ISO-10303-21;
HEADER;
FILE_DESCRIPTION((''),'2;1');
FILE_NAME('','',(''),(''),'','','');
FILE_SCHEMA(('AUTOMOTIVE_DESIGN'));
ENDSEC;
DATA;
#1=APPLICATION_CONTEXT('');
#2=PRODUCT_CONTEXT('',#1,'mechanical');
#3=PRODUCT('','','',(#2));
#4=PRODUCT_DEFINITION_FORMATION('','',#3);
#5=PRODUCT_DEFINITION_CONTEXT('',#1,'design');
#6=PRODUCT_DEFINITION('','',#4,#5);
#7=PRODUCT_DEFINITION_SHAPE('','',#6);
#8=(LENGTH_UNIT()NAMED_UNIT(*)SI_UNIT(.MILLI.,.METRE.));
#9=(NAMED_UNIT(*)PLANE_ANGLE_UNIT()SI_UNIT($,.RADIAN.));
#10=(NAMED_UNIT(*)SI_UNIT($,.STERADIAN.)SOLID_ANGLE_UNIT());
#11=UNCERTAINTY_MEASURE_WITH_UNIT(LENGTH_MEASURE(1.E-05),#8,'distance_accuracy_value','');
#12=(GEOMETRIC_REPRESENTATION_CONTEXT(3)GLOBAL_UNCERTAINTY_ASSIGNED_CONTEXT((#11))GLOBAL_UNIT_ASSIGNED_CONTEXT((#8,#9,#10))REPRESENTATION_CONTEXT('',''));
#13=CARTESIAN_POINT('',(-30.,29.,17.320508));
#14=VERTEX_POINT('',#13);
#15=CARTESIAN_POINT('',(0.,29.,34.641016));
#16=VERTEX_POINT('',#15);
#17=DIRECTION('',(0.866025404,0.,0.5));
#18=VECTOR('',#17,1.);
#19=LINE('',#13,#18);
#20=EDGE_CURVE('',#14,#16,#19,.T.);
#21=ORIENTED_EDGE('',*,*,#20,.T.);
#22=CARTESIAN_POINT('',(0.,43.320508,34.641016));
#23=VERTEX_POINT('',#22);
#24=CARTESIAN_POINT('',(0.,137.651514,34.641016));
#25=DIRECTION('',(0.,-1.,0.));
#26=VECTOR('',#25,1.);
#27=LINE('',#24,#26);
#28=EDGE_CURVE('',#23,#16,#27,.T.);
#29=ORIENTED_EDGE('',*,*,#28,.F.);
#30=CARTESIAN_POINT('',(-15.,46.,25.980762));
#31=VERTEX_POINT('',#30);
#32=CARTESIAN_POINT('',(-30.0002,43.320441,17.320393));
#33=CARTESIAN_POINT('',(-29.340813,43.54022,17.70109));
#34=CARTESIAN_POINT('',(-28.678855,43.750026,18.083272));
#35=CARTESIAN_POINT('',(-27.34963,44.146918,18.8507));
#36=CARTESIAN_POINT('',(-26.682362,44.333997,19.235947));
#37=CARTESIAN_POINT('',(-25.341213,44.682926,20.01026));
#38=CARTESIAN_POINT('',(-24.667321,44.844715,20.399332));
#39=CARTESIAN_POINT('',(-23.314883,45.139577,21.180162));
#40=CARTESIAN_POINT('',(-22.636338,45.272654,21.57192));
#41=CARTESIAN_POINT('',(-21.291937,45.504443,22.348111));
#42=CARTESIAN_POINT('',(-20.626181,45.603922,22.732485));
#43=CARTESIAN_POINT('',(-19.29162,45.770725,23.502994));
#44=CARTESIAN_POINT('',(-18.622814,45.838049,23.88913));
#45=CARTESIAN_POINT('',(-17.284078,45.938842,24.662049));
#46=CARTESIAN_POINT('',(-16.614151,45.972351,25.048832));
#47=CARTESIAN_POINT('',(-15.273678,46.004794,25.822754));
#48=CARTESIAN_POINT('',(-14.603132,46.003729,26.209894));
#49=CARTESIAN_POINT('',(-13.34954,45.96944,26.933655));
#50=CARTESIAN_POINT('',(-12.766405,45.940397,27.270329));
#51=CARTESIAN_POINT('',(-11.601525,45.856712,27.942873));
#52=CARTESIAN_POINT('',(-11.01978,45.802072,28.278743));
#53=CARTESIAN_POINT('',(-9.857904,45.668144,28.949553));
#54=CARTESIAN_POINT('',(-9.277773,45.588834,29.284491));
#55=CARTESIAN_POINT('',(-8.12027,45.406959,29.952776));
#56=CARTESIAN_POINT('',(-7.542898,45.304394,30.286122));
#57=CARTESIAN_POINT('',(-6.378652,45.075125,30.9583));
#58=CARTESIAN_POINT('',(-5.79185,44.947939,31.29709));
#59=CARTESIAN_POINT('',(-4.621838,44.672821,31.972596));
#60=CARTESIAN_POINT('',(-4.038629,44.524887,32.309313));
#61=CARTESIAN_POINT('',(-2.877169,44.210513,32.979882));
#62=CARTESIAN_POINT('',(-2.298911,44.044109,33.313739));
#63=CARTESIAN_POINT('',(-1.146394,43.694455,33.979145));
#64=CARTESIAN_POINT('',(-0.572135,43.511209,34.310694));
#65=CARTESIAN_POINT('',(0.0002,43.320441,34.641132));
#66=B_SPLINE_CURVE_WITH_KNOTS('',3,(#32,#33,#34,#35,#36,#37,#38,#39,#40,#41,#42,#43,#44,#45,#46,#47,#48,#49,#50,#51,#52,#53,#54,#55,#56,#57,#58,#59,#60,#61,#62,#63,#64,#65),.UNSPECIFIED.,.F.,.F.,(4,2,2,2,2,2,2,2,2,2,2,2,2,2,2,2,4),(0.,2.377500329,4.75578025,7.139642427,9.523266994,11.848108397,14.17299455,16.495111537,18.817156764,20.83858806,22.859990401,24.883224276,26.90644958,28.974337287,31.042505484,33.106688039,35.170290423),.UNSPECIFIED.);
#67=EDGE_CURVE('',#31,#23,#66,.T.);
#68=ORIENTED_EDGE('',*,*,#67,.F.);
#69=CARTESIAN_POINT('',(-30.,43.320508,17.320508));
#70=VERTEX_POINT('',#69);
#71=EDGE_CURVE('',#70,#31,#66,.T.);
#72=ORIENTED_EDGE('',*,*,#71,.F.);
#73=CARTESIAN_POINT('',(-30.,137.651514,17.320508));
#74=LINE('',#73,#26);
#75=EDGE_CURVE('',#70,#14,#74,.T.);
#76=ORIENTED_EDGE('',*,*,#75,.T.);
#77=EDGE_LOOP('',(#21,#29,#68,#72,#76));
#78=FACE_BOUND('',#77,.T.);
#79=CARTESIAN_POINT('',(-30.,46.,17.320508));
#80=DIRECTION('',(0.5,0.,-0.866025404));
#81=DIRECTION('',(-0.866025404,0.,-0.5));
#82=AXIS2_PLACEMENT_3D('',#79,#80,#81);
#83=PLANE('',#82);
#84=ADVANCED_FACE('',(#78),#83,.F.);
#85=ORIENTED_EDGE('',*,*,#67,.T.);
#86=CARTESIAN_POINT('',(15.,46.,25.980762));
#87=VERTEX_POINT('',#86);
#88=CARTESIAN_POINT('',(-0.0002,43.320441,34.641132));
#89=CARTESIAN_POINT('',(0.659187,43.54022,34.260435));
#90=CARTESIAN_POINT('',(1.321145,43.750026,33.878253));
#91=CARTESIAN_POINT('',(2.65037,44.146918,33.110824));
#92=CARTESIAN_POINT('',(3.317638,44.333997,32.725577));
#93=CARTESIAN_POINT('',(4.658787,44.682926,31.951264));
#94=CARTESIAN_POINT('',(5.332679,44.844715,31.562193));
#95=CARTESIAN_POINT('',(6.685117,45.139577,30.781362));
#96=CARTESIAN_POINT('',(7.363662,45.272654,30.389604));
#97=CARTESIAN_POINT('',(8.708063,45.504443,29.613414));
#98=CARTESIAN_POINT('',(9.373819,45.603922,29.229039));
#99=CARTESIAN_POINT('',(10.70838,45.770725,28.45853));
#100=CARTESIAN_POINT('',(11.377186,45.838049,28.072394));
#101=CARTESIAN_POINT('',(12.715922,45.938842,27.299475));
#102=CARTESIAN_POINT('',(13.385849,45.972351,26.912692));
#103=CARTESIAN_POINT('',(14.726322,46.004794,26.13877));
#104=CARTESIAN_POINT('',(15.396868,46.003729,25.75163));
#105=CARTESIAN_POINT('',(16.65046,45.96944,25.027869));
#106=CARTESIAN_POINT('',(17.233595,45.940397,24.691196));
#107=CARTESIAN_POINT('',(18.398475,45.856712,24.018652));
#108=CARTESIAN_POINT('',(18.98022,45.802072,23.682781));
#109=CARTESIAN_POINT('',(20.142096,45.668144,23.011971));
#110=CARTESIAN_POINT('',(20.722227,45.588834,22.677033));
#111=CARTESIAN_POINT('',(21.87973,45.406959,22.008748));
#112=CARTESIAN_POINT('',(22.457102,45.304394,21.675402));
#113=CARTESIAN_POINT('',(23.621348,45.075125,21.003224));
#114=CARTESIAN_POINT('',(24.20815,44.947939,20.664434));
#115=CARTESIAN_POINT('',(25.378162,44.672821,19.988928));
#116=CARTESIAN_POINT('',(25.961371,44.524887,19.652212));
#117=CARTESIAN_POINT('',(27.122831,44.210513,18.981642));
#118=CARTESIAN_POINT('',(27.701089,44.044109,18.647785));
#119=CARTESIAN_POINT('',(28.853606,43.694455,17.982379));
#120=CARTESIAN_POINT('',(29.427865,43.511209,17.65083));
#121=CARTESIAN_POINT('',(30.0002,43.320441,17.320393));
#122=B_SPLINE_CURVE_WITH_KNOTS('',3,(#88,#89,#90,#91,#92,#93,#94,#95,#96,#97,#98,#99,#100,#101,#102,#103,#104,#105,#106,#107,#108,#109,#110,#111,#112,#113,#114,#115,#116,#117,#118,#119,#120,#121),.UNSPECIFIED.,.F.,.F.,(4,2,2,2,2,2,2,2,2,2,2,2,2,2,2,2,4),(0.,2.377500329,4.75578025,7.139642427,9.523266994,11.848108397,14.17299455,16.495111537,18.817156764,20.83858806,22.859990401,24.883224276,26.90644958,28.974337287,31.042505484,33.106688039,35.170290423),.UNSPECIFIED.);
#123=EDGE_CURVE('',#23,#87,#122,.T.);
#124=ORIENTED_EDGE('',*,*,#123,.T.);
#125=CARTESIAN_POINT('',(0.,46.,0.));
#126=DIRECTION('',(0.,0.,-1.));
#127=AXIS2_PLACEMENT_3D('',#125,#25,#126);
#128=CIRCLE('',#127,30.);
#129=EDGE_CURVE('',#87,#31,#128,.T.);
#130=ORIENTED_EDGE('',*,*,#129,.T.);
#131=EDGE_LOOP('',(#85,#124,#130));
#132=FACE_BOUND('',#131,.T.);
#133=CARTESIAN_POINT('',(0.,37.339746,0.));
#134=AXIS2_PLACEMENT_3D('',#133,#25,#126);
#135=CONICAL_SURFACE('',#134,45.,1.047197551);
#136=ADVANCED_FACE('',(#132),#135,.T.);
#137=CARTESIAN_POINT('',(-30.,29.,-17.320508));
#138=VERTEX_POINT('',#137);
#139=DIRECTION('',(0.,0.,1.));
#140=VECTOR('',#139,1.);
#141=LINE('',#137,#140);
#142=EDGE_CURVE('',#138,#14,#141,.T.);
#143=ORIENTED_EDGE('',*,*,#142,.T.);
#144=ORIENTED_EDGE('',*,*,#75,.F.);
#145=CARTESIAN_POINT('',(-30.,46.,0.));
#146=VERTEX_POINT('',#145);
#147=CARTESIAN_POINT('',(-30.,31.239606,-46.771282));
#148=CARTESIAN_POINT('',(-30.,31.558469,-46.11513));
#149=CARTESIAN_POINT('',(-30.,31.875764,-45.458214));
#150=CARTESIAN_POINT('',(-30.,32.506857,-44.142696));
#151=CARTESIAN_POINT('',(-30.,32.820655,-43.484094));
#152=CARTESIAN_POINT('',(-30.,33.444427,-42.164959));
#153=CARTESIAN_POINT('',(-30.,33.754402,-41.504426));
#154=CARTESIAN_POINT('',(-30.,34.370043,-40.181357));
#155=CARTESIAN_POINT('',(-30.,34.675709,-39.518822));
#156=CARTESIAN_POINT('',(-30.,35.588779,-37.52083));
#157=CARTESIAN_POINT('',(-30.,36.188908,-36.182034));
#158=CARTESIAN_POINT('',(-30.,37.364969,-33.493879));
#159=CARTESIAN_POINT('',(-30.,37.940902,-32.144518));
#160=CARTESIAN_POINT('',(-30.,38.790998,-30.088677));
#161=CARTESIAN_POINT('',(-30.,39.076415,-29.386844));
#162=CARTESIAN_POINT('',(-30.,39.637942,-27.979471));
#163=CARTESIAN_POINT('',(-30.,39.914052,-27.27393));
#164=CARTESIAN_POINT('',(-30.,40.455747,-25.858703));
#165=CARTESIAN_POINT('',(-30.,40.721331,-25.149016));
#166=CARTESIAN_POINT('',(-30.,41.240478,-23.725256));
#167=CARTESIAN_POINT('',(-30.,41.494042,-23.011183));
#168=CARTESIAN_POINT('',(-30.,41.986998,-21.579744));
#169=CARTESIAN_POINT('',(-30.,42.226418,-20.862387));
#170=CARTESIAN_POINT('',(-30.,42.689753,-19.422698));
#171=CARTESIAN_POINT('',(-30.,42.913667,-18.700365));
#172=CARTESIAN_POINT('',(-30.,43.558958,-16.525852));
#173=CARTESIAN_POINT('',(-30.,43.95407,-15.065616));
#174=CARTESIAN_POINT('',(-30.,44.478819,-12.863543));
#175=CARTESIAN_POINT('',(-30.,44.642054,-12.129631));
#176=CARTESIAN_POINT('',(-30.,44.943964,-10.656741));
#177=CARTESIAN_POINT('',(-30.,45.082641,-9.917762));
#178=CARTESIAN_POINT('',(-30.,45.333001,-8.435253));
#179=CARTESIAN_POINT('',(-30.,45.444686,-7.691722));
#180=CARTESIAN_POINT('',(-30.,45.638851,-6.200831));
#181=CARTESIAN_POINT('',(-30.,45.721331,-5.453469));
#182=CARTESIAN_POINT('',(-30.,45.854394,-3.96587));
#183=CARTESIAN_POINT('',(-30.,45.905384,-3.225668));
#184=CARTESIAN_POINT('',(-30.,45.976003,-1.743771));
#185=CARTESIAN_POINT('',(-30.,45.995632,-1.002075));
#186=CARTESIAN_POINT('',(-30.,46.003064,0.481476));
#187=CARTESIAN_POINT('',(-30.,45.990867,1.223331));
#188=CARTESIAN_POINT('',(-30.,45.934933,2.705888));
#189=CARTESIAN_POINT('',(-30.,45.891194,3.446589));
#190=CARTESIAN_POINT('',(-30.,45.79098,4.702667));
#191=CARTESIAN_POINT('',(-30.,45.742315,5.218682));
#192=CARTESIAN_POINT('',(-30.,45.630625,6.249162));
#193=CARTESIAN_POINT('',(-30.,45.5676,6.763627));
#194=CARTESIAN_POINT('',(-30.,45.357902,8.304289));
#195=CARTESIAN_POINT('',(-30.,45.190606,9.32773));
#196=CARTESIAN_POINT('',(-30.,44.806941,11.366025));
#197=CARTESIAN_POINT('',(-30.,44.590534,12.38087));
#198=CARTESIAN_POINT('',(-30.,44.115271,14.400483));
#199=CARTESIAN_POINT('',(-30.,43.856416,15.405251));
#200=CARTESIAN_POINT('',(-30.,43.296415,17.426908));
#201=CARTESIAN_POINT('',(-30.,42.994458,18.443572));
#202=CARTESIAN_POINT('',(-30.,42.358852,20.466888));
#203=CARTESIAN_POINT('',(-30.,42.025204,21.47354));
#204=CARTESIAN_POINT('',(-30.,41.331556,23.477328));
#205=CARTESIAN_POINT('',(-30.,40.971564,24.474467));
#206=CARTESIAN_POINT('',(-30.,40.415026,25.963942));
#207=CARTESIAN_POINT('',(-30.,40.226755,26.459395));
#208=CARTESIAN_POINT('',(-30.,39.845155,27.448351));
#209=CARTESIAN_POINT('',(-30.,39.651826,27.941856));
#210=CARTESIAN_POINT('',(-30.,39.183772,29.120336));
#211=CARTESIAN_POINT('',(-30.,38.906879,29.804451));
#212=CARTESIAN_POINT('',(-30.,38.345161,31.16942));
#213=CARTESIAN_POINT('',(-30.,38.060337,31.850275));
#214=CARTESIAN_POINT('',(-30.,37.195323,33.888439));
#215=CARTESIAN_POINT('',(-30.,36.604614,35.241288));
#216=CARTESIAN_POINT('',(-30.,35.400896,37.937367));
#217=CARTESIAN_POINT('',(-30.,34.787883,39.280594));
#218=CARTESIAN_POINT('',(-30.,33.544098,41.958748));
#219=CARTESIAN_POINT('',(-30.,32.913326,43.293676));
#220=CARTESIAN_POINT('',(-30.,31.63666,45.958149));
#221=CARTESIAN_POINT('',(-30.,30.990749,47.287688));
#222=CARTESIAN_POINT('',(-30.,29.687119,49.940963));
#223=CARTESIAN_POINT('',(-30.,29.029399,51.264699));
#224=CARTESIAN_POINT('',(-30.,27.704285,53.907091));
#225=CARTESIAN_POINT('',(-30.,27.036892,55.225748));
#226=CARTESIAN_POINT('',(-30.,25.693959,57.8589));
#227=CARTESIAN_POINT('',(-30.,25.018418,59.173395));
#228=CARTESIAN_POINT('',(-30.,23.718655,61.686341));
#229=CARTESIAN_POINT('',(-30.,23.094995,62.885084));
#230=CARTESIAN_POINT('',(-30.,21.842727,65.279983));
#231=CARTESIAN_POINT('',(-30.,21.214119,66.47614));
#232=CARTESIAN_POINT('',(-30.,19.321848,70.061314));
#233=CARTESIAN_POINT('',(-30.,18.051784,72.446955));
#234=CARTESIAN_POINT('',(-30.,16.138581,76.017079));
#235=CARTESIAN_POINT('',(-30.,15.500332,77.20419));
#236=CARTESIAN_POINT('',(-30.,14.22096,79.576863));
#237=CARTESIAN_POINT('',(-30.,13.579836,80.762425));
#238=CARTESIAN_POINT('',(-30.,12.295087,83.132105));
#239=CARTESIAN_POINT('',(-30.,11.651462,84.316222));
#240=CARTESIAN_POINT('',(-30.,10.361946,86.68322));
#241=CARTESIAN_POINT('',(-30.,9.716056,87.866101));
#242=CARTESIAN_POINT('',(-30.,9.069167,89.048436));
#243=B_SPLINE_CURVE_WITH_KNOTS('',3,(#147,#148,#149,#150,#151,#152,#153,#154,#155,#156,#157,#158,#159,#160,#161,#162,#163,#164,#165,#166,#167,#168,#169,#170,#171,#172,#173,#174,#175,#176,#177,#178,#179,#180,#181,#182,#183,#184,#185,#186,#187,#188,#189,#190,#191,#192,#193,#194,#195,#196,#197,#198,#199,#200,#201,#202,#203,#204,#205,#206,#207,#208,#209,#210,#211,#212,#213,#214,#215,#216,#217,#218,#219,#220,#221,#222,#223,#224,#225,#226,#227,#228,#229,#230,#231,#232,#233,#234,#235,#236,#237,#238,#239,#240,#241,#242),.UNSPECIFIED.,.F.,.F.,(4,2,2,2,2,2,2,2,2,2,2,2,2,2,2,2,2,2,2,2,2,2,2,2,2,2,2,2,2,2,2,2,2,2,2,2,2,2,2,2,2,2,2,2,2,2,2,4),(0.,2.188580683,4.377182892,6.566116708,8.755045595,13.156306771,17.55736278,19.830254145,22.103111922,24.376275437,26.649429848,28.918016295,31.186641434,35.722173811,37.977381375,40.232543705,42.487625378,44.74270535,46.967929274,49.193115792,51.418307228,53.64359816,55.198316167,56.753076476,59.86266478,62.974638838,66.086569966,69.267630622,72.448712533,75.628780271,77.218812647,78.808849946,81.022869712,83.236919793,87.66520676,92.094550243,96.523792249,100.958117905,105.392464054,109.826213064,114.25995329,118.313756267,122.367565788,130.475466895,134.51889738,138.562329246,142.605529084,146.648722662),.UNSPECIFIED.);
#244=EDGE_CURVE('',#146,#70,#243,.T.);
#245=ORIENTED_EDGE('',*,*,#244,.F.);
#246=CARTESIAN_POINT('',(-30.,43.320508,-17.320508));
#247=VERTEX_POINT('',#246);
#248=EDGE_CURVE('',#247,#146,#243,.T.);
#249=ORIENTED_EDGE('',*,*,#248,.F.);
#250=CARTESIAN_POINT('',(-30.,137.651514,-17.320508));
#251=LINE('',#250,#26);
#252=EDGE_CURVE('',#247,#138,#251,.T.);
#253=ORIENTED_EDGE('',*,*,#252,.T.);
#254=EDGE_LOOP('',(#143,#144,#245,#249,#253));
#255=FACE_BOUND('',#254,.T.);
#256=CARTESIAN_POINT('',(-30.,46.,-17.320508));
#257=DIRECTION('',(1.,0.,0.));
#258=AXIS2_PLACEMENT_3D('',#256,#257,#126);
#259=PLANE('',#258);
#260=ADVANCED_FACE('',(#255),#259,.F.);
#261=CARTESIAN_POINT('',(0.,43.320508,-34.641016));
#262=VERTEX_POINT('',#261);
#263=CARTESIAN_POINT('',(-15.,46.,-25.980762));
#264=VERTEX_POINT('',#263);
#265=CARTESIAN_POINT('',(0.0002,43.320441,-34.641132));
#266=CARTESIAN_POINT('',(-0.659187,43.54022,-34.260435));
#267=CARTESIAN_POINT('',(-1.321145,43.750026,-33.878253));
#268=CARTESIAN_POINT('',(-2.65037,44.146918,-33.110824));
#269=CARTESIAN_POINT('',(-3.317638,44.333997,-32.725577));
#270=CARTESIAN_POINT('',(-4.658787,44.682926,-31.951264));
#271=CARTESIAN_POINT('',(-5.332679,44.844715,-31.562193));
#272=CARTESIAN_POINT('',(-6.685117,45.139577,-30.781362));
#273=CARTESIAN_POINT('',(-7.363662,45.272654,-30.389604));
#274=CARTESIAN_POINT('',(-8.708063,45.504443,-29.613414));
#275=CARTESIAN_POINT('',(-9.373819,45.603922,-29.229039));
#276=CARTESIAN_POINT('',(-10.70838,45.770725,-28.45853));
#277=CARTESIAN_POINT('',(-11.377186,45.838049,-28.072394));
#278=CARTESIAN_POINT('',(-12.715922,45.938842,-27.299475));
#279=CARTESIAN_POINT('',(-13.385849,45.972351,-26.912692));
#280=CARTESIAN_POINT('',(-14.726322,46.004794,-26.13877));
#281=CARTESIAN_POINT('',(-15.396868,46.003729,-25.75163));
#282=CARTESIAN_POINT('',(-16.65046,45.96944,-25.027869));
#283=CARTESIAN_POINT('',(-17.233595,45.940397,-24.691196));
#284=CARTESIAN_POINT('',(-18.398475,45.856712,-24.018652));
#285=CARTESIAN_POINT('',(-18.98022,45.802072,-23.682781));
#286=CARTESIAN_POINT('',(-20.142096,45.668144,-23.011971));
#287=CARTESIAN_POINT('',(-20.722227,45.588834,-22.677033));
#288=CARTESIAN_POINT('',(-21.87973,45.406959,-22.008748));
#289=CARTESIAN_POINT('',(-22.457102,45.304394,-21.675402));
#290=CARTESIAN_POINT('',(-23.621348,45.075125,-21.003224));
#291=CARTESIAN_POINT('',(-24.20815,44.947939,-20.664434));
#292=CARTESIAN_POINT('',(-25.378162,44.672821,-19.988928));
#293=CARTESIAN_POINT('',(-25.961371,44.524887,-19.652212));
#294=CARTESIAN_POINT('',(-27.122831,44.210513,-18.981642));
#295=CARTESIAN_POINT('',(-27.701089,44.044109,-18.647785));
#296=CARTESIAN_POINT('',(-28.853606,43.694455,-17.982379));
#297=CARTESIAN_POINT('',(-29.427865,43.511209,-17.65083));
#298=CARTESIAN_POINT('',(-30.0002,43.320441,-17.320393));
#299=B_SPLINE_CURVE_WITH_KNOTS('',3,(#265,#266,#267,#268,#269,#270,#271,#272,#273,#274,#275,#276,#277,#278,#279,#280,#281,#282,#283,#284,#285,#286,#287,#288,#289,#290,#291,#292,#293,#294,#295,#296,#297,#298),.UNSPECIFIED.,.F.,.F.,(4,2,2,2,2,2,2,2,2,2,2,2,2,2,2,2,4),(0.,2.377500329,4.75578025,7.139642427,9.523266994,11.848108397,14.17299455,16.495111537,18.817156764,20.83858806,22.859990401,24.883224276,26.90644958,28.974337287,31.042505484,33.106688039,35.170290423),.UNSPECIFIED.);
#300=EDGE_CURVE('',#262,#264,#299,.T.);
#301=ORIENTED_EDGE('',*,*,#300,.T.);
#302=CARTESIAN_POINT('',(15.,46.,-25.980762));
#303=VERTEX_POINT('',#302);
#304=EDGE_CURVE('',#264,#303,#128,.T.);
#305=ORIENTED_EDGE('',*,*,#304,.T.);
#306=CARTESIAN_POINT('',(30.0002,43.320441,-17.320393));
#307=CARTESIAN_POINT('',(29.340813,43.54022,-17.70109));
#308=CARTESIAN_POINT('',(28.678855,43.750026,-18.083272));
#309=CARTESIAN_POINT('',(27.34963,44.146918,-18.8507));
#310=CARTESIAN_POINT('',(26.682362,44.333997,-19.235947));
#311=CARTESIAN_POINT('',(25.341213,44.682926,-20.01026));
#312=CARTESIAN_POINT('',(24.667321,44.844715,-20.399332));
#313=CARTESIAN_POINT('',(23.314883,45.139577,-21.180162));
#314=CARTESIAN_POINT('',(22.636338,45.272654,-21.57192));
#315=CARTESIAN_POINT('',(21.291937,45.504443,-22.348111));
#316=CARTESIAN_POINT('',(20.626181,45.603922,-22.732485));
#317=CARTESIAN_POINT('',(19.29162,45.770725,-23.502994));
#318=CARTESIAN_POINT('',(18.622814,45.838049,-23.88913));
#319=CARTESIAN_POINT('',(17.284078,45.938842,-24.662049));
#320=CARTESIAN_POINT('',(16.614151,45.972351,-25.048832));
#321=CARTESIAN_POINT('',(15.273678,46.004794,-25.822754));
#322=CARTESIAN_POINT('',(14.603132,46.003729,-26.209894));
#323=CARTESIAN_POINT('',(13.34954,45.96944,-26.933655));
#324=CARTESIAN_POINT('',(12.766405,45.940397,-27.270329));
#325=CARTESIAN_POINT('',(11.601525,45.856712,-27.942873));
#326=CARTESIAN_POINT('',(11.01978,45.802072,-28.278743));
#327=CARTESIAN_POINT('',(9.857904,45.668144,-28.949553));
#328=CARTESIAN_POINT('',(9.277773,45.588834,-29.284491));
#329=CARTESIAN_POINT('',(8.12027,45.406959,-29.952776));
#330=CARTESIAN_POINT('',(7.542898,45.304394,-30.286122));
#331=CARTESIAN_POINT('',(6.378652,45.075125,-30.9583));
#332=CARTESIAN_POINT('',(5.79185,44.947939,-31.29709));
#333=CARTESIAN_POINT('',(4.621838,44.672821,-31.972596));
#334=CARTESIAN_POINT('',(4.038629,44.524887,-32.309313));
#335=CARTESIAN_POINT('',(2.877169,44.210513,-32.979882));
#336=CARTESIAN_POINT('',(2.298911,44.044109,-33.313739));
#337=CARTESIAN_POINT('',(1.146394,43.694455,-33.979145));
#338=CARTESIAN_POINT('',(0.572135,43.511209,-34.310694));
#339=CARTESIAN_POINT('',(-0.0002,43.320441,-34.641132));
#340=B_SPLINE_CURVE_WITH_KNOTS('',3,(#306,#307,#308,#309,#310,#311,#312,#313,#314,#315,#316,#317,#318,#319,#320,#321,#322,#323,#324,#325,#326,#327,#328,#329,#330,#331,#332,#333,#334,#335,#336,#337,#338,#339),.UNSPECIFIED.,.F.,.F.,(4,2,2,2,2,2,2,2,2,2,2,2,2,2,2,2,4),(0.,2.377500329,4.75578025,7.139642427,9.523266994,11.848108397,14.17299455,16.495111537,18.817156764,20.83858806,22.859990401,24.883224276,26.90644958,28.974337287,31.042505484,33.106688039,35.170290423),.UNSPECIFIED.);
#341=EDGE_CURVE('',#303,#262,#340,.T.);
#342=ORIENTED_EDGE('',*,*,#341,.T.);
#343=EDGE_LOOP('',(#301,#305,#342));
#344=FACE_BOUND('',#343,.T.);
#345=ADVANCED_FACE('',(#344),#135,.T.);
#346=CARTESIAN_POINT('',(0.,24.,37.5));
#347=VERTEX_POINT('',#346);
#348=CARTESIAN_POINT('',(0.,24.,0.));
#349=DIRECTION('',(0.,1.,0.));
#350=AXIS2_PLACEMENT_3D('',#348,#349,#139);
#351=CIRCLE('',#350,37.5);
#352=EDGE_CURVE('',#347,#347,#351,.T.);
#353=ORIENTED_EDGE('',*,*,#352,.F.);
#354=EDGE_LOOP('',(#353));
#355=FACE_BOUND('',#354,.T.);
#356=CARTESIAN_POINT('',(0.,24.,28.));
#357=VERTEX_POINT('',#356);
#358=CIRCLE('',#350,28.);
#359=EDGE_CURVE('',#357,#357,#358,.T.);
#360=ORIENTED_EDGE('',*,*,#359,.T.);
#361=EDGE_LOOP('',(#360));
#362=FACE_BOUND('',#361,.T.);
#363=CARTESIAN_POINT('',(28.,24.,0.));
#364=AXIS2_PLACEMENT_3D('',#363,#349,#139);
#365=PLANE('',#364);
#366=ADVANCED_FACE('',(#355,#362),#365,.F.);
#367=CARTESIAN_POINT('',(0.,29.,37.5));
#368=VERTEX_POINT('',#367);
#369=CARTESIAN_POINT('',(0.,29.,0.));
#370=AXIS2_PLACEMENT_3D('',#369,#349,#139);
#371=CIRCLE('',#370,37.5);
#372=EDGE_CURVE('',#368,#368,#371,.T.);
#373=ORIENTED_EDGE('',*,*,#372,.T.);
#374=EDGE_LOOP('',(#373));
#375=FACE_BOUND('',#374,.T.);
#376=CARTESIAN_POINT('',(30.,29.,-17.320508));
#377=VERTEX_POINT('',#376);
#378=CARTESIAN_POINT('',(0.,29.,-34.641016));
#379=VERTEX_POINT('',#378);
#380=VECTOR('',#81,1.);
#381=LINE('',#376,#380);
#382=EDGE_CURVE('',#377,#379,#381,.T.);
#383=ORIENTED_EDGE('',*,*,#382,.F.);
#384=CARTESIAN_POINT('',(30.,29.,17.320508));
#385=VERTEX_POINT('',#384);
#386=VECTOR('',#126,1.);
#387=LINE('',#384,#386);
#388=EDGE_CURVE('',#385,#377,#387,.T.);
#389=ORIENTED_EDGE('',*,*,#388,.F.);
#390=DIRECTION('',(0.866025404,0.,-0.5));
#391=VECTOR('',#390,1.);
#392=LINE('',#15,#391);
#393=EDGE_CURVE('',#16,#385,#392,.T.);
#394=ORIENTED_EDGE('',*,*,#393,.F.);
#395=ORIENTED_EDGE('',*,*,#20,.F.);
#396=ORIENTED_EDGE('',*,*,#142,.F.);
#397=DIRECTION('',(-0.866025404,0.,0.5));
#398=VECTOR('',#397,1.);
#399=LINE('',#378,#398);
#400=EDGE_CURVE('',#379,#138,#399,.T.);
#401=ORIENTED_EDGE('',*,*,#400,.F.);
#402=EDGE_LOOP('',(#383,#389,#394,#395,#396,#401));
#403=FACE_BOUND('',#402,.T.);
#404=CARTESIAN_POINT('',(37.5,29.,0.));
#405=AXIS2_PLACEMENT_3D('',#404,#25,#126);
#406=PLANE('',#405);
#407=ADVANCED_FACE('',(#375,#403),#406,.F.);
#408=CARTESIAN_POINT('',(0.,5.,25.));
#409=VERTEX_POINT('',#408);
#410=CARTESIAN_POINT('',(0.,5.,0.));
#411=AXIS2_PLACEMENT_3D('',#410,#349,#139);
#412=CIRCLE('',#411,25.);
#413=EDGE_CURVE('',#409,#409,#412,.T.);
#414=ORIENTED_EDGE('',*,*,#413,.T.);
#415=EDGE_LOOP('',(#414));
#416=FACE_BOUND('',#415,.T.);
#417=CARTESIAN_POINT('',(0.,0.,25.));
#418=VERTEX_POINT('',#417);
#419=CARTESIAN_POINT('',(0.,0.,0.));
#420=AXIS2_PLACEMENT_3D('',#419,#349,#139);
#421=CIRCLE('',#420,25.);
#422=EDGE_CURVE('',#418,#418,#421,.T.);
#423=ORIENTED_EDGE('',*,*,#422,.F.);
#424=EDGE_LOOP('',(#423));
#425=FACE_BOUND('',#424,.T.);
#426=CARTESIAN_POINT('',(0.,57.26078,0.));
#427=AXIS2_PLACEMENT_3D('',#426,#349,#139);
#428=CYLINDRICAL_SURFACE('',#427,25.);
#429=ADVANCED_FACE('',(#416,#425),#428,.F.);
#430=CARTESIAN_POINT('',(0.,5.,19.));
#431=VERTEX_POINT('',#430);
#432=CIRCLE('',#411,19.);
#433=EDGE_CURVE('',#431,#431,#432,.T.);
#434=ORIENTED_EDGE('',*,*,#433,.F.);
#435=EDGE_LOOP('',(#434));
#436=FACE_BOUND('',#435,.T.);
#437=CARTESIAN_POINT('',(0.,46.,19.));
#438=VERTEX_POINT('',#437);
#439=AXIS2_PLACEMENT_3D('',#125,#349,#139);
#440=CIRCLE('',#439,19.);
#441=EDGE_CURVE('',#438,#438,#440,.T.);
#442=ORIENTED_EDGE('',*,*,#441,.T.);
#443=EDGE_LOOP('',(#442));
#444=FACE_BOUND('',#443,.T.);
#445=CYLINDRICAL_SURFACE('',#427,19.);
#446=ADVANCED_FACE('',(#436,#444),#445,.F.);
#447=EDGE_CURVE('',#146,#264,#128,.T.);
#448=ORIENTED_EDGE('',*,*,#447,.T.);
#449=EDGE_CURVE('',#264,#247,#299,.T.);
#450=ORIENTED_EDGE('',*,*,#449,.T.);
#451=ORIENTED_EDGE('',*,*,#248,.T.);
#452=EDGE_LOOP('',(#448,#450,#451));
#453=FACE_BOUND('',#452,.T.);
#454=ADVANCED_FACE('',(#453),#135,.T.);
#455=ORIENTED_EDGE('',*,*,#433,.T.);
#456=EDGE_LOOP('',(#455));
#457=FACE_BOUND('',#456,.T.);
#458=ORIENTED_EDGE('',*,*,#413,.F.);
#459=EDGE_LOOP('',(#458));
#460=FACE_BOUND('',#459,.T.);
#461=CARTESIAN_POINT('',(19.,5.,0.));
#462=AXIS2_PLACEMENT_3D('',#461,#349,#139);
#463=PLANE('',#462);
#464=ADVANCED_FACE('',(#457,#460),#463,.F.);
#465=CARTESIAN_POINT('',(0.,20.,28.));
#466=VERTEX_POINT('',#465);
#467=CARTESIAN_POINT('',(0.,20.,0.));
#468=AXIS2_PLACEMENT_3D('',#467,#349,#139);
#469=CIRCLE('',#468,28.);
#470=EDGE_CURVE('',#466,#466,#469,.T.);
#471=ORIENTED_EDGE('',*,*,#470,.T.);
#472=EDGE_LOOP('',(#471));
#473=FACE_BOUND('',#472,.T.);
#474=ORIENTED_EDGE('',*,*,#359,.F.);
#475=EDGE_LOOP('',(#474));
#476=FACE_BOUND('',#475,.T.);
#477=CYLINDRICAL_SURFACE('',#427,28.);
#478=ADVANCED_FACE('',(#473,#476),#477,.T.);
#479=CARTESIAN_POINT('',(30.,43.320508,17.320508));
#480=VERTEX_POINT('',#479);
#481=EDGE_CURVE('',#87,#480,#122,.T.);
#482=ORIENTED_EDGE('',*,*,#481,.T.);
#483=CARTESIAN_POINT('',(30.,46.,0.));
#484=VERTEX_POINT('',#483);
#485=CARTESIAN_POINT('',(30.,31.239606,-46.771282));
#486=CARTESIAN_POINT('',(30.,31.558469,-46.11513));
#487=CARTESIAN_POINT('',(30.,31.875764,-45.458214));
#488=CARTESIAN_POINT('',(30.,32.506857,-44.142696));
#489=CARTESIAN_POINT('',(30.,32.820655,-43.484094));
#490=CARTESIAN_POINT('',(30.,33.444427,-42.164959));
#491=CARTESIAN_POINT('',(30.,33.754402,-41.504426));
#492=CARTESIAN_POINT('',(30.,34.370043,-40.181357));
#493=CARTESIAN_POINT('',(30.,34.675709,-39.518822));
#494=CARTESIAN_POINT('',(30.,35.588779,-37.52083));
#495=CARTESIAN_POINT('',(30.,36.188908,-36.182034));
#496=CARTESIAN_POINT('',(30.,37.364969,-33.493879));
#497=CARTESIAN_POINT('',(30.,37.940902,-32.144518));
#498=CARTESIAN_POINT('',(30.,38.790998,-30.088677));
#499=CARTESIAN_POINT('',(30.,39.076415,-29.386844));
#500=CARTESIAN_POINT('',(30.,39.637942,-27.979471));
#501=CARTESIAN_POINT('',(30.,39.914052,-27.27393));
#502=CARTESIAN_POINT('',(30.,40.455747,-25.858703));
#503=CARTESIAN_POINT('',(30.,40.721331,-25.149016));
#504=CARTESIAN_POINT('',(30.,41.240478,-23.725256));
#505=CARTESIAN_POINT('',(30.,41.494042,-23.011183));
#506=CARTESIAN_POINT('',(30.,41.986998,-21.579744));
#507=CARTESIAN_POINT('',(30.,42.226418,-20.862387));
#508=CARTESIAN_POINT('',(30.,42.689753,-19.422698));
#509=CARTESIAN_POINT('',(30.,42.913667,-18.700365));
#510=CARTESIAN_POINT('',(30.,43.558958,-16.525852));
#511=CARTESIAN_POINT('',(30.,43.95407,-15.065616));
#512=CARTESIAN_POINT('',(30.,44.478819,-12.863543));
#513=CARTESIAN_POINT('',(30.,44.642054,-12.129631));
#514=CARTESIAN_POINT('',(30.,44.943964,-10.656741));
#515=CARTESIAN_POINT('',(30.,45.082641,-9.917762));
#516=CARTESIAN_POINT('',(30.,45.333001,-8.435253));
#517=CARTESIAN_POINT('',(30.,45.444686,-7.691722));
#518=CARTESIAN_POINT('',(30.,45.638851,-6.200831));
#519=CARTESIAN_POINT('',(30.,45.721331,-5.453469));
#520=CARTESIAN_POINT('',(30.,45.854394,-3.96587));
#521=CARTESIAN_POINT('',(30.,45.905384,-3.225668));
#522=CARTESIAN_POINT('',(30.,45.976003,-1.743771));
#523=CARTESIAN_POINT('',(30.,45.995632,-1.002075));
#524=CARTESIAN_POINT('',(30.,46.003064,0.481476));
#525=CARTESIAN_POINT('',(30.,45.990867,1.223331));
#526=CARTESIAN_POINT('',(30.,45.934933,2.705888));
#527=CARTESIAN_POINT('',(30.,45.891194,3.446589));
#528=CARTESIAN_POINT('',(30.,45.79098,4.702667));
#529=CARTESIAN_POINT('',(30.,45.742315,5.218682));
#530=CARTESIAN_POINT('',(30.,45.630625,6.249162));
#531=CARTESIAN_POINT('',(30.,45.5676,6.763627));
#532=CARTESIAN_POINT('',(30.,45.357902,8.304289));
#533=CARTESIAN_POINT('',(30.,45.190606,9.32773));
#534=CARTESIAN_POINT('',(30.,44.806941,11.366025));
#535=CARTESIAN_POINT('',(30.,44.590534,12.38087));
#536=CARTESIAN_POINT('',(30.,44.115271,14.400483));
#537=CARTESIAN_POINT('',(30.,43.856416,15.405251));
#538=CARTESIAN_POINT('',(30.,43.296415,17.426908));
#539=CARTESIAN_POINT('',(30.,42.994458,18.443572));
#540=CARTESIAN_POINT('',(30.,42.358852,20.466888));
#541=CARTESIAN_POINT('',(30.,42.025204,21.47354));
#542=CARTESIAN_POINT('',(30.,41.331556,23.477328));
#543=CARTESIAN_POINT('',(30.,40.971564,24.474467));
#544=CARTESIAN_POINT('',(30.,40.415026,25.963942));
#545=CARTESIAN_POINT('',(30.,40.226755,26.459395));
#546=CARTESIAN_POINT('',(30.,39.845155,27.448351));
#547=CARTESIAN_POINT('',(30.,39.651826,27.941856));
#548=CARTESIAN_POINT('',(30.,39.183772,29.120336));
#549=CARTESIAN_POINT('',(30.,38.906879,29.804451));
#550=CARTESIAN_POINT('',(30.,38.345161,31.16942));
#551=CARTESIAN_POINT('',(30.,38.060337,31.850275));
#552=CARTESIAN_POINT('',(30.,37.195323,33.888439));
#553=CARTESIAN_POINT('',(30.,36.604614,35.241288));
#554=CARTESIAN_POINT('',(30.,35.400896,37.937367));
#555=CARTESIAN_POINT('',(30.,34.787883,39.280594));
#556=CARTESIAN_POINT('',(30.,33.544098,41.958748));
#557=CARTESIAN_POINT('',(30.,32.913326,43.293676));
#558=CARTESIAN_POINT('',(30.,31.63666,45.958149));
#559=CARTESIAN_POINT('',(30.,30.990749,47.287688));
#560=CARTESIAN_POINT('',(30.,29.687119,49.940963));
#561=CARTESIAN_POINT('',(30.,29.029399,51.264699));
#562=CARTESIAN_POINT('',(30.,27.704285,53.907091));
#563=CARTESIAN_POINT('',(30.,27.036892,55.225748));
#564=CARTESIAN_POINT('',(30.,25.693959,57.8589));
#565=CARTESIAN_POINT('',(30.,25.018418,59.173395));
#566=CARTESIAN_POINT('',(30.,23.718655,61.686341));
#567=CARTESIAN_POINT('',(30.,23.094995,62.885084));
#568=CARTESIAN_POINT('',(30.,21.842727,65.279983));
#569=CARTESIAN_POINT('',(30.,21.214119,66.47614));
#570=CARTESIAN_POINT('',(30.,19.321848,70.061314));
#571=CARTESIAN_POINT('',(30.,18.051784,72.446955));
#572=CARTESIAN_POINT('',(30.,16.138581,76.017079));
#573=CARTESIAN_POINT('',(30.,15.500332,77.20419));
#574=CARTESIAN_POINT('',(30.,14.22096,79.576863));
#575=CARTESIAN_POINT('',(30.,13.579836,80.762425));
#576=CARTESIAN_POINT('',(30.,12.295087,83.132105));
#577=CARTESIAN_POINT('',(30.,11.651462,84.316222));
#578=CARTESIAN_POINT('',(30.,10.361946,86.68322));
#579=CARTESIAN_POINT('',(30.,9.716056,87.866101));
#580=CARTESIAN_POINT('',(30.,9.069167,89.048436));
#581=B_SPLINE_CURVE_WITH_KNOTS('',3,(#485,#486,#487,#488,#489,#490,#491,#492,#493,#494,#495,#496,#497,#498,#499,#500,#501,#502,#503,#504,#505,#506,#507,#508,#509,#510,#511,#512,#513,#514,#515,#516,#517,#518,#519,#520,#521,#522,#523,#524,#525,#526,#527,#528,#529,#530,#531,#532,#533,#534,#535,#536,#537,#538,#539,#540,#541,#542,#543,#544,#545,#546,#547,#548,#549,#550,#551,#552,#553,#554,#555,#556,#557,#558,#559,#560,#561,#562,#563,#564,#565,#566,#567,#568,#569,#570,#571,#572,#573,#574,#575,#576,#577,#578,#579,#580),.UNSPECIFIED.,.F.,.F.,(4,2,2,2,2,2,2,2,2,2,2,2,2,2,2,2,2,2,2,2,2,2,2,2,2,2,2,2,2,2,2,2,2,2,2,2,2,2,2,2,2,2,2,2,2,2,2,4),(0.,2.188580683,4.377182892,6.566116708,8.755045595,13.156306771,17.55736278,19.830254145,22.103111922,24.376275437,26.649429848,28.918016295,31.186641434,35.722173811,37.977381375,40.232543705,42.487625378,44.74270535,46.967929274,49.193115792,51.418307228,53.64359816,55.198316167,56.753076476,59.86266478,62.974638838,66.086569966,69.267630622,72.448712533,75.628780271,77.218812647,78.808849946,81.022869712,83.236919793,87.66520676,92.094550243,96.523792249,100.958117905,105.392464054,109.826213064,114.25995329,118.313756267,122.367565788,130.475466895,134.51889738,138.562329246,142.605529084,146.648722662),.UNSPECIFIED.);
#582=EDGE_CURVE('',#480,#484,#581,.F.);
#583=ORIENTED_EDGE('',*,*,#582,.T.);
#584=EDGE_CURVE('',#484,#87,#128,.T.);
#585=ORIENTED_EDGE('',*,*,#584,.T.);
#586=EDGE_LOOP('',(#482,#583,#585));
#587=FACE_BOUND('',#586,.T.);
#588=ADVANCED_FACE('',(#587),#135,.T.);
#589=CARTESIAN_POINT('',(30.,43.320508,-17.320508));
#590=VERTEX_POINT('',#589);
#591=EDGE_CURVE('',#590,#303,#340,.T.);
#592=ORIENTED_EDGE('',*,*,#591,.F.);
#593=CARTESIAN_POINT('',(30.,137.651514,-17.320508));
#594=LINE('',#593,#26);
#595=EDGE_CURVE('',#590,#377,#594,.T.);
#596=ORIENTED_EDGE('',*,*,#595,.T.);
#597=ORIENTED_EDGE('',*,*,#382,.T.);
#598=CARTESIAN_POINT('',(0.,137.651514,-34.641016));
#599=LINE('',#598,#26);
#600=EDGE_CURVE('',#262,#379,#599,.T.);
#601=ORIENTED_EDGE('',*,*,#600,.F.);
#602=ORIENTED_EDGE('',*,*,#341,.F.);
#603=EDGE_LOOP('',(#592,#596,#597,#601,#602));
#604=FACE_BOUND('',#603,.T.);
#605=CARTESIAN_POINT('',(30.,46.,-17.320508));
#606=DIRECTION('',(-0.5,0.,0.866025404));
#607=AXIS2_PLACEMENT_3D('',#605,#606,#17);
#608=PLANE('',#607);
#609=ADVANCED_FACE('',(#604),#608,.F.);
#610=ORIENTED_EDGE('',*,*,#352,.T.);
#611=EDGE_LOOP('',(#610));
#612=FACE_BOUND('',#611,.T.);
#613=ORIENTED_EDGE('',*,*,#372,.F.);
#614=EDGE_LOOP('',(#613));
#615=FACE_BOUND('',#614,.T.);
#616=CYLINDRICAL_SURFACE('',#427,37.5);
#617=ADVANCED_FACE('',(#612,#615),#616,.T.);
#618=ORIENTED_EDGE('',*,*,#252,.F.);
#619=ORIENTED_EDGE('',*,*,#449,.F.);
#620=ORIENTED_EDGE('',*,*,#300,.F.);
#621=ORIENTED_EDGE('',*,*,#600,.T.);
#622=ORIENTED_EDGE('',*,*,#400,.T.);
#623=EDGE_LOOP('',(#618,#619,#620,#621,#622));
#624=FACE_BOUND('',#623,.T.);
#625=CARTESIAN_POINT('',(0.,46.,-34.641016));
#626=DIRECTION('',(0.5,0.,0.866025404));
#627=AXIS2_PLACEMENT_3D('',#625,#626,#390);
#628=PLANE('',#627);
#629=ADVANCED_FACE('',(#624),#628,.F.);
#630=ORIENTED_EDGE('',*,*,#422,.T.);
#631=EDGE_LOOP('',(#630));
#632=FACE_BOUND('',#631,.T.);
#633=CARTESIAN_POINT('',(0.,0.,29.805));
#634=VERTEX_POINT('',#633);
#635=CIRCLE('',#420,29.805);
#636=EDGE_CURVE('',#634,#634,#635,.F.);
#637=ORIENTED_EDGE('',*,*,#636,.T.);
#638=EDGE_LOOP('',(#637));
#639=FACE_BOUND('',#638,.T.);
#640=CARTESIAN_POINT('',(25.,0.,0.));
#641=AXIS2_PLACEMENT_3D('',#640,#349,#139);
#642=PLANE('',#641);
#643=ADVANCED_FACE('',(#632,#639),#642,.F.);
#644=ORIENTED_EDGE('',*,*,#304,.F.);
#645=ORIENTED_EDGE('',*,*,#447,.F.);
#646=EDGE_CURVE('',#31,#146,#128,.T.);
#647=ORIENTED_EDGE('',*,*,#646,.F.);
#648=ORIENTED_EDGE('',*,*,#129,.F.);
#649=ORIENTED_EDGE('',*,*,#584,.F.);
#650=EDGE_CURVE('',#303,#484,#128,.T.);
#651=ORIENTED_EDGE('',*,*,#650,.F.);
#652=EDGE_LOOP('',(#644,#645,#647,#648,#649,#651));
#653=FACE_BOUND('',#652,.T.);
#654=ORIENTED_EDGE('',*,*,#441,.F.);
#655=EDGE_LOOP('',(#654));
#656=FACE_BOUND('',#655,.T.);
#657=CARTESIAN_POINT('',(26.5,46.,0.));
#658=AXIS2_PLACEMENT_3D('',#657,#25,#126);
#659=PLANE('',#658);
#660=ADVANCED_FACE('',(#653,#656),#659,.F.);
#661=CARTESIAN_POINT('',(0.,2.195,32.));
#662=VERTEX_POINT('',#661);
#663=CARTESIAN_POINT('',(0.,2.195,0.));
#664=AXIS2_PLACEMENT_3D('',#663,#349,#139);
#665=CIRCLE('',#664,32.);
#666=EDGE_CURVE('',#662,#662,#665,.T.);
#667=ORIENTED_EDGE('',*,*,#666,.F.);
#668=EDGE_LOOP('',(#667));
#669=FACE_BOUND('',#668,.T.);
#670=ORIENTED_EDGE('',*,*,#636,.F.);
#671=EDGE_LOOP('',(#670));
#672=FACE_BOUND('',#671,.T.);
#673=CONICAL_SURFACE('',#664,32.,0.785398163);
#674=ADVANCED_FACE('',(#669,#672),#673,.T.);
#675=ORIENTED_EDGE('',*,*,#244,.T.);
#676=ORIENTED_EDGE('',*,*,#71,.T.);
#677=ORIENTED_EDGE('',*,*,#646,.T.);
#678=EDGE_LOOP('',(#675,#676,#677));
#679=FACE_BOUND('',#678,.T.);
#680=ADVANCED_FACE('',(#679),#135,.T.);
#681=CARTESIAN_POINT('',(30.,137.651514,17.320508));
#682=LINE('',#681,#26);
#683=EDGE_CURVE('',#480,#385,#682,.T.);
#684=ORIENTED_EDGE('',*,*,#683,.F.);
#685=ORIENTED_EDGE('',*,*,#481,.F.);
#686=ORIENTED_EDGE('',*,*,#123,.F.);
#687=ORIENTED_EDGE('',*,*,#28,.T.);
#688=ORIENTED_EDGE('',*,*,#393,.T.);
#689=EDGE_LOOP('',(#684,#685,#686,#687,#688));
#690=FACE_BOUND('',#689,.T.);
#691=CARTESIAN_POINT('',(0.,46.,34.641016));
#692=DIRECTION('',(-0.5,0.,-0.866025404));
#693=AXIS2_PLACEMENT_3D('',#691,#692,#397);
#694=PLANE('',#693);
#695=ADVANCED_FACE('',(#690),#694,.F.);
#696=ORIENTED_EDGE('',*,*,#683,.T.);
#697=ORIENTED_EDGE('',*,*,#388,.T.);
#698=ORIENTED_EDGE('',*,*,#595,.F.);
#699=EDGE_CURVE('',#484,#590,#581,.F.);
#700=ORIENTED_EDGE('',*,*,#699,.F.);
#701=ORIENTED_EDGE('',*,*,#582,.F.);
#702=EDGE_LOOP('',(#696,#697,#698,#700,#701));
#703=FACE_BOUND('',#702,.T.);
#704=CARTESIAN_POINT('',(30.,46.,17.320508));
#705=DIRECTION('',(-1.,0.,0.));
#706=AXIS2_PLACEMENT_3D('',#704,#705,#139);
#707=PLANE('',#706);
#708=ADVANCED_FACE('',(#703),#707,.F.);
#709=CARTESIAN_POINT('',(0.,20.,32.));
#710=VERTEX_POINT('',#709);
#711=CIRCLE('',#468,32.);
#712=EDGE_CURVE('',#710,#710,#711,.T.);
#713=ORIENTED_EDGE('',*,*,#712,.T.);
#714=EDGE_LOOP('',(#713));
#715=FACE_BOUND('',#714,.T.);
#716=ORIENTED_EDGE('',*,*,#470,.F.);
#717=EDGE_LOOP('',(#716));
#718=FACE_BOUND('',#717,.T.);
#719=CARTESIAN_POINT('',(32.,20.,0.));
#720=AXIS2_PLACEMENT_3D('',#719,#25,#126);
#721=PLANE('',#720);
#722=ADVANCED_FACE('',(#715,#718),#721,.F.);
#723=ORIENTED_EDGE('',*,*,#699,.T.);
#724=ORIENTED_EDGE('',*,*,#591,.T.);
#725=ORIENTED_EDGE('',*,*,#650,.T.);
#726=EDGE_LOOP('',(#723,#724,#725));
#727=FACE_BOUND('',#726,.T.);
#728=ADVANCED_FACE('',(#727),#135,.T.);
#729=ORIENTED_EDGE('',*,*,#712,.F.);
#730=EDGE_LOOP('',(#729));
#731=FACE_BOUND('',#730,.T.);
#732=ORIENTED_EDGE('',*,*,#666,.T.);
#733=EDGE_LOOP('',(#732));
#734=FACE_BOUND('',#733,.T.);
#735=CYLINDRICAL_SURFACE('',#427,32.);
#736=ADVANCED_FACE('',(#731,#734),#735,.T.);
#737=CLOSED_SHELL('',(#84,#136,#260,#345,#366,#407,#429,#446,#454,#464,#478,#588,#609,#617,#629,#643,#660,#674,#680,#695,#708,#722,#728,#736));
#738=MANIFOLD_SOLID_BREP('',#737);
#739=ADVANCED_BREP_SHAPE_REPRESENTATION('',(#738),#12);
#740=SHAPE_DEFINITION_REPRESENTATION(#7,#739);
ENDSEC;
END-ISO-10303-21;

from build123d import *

# Parameters (mm, degrees)
CHAMFER_1_SIZE      = 2.195
SKETCH_2_R          = 37.5
CUT_EXTRUDE_1_DEPTH = 18
SKETCH_3_R          = 25
EXTRUDE_1_DEPTH     = 17


with BuildPart() as part:
    # Эскиз1 → Повернуть1 (revolve)
    with BuildSketch(Plane.XY):
        Polygon((25, 0), (32, 0), (32, 20), (28, 20), (28, 24), (37.5, 24), (37.5, 29), (32.5, 29), (32.5, 42.535898385), (26.5, 46), (19, 46), (19, 5), (25, 5), align=None)
    revolve(axis=Axis((0, 57.260780425, 0), (0, -1, 0)))

    # Фаска1
    chamfer_1_edges = [part.edges().sort_by_distance(p)[0] for p in [
        (-32, 0, 0),
    ]]
    chamfer(chamfer_1_edges, length=CHAMFER_1_SIZE)

    # Эскиз2 → Вырез-Вытянуть1 (cut, through all)
    with BuildSketch(Plane(origin=(0, 29, 0), x_dir=(1, 0, 0), z_dir=(0, 1, 0))):
        Circle(SKETCH_2_R)
        Polygon((0, 34.641016151), (-30, 17.320508076), (-30, -17.320508076), (0, -34.641016151), (30, -17.320508076), (30, 17.320508076), align=None, mode=Mode.SUBTRACT)
    extrude(amount=CUT_EXTRUDE_1_DEPTH, mode=Mode.SUBTRACT)

    # Эскиз3 → Бобышка-Вытянуть1 (add)
    with BuildSketch(Plane(origin=(0, 29, 0), x_dir=(1, 0, 0), z_dir=(0, 1, 0))):
        Polygon((0, 34.641016151), (-30, 17.320508076), (-30, -17.320508076), (0, -34.641016151), (30, -17.320508076), (30, 17.320508076), align=None)
        Circle(SKETCH_3_R, mode=Mode.SUBTRACT)
    extrude(amount=EXTRUDE_1_DEPTH)

    # Эскиз4 → Вырез-Повернуть1 (revolve, cut)
    with BuildSketch(Plane.XY):
        Polygon((-30, 46), (-45, 46), (-45, 37.339745962), align=None)
    revolve(axis=Axis((0, 0, 0), (0, 1, 0)), mode=Mode.SUBTRACT)


solid = part.part
